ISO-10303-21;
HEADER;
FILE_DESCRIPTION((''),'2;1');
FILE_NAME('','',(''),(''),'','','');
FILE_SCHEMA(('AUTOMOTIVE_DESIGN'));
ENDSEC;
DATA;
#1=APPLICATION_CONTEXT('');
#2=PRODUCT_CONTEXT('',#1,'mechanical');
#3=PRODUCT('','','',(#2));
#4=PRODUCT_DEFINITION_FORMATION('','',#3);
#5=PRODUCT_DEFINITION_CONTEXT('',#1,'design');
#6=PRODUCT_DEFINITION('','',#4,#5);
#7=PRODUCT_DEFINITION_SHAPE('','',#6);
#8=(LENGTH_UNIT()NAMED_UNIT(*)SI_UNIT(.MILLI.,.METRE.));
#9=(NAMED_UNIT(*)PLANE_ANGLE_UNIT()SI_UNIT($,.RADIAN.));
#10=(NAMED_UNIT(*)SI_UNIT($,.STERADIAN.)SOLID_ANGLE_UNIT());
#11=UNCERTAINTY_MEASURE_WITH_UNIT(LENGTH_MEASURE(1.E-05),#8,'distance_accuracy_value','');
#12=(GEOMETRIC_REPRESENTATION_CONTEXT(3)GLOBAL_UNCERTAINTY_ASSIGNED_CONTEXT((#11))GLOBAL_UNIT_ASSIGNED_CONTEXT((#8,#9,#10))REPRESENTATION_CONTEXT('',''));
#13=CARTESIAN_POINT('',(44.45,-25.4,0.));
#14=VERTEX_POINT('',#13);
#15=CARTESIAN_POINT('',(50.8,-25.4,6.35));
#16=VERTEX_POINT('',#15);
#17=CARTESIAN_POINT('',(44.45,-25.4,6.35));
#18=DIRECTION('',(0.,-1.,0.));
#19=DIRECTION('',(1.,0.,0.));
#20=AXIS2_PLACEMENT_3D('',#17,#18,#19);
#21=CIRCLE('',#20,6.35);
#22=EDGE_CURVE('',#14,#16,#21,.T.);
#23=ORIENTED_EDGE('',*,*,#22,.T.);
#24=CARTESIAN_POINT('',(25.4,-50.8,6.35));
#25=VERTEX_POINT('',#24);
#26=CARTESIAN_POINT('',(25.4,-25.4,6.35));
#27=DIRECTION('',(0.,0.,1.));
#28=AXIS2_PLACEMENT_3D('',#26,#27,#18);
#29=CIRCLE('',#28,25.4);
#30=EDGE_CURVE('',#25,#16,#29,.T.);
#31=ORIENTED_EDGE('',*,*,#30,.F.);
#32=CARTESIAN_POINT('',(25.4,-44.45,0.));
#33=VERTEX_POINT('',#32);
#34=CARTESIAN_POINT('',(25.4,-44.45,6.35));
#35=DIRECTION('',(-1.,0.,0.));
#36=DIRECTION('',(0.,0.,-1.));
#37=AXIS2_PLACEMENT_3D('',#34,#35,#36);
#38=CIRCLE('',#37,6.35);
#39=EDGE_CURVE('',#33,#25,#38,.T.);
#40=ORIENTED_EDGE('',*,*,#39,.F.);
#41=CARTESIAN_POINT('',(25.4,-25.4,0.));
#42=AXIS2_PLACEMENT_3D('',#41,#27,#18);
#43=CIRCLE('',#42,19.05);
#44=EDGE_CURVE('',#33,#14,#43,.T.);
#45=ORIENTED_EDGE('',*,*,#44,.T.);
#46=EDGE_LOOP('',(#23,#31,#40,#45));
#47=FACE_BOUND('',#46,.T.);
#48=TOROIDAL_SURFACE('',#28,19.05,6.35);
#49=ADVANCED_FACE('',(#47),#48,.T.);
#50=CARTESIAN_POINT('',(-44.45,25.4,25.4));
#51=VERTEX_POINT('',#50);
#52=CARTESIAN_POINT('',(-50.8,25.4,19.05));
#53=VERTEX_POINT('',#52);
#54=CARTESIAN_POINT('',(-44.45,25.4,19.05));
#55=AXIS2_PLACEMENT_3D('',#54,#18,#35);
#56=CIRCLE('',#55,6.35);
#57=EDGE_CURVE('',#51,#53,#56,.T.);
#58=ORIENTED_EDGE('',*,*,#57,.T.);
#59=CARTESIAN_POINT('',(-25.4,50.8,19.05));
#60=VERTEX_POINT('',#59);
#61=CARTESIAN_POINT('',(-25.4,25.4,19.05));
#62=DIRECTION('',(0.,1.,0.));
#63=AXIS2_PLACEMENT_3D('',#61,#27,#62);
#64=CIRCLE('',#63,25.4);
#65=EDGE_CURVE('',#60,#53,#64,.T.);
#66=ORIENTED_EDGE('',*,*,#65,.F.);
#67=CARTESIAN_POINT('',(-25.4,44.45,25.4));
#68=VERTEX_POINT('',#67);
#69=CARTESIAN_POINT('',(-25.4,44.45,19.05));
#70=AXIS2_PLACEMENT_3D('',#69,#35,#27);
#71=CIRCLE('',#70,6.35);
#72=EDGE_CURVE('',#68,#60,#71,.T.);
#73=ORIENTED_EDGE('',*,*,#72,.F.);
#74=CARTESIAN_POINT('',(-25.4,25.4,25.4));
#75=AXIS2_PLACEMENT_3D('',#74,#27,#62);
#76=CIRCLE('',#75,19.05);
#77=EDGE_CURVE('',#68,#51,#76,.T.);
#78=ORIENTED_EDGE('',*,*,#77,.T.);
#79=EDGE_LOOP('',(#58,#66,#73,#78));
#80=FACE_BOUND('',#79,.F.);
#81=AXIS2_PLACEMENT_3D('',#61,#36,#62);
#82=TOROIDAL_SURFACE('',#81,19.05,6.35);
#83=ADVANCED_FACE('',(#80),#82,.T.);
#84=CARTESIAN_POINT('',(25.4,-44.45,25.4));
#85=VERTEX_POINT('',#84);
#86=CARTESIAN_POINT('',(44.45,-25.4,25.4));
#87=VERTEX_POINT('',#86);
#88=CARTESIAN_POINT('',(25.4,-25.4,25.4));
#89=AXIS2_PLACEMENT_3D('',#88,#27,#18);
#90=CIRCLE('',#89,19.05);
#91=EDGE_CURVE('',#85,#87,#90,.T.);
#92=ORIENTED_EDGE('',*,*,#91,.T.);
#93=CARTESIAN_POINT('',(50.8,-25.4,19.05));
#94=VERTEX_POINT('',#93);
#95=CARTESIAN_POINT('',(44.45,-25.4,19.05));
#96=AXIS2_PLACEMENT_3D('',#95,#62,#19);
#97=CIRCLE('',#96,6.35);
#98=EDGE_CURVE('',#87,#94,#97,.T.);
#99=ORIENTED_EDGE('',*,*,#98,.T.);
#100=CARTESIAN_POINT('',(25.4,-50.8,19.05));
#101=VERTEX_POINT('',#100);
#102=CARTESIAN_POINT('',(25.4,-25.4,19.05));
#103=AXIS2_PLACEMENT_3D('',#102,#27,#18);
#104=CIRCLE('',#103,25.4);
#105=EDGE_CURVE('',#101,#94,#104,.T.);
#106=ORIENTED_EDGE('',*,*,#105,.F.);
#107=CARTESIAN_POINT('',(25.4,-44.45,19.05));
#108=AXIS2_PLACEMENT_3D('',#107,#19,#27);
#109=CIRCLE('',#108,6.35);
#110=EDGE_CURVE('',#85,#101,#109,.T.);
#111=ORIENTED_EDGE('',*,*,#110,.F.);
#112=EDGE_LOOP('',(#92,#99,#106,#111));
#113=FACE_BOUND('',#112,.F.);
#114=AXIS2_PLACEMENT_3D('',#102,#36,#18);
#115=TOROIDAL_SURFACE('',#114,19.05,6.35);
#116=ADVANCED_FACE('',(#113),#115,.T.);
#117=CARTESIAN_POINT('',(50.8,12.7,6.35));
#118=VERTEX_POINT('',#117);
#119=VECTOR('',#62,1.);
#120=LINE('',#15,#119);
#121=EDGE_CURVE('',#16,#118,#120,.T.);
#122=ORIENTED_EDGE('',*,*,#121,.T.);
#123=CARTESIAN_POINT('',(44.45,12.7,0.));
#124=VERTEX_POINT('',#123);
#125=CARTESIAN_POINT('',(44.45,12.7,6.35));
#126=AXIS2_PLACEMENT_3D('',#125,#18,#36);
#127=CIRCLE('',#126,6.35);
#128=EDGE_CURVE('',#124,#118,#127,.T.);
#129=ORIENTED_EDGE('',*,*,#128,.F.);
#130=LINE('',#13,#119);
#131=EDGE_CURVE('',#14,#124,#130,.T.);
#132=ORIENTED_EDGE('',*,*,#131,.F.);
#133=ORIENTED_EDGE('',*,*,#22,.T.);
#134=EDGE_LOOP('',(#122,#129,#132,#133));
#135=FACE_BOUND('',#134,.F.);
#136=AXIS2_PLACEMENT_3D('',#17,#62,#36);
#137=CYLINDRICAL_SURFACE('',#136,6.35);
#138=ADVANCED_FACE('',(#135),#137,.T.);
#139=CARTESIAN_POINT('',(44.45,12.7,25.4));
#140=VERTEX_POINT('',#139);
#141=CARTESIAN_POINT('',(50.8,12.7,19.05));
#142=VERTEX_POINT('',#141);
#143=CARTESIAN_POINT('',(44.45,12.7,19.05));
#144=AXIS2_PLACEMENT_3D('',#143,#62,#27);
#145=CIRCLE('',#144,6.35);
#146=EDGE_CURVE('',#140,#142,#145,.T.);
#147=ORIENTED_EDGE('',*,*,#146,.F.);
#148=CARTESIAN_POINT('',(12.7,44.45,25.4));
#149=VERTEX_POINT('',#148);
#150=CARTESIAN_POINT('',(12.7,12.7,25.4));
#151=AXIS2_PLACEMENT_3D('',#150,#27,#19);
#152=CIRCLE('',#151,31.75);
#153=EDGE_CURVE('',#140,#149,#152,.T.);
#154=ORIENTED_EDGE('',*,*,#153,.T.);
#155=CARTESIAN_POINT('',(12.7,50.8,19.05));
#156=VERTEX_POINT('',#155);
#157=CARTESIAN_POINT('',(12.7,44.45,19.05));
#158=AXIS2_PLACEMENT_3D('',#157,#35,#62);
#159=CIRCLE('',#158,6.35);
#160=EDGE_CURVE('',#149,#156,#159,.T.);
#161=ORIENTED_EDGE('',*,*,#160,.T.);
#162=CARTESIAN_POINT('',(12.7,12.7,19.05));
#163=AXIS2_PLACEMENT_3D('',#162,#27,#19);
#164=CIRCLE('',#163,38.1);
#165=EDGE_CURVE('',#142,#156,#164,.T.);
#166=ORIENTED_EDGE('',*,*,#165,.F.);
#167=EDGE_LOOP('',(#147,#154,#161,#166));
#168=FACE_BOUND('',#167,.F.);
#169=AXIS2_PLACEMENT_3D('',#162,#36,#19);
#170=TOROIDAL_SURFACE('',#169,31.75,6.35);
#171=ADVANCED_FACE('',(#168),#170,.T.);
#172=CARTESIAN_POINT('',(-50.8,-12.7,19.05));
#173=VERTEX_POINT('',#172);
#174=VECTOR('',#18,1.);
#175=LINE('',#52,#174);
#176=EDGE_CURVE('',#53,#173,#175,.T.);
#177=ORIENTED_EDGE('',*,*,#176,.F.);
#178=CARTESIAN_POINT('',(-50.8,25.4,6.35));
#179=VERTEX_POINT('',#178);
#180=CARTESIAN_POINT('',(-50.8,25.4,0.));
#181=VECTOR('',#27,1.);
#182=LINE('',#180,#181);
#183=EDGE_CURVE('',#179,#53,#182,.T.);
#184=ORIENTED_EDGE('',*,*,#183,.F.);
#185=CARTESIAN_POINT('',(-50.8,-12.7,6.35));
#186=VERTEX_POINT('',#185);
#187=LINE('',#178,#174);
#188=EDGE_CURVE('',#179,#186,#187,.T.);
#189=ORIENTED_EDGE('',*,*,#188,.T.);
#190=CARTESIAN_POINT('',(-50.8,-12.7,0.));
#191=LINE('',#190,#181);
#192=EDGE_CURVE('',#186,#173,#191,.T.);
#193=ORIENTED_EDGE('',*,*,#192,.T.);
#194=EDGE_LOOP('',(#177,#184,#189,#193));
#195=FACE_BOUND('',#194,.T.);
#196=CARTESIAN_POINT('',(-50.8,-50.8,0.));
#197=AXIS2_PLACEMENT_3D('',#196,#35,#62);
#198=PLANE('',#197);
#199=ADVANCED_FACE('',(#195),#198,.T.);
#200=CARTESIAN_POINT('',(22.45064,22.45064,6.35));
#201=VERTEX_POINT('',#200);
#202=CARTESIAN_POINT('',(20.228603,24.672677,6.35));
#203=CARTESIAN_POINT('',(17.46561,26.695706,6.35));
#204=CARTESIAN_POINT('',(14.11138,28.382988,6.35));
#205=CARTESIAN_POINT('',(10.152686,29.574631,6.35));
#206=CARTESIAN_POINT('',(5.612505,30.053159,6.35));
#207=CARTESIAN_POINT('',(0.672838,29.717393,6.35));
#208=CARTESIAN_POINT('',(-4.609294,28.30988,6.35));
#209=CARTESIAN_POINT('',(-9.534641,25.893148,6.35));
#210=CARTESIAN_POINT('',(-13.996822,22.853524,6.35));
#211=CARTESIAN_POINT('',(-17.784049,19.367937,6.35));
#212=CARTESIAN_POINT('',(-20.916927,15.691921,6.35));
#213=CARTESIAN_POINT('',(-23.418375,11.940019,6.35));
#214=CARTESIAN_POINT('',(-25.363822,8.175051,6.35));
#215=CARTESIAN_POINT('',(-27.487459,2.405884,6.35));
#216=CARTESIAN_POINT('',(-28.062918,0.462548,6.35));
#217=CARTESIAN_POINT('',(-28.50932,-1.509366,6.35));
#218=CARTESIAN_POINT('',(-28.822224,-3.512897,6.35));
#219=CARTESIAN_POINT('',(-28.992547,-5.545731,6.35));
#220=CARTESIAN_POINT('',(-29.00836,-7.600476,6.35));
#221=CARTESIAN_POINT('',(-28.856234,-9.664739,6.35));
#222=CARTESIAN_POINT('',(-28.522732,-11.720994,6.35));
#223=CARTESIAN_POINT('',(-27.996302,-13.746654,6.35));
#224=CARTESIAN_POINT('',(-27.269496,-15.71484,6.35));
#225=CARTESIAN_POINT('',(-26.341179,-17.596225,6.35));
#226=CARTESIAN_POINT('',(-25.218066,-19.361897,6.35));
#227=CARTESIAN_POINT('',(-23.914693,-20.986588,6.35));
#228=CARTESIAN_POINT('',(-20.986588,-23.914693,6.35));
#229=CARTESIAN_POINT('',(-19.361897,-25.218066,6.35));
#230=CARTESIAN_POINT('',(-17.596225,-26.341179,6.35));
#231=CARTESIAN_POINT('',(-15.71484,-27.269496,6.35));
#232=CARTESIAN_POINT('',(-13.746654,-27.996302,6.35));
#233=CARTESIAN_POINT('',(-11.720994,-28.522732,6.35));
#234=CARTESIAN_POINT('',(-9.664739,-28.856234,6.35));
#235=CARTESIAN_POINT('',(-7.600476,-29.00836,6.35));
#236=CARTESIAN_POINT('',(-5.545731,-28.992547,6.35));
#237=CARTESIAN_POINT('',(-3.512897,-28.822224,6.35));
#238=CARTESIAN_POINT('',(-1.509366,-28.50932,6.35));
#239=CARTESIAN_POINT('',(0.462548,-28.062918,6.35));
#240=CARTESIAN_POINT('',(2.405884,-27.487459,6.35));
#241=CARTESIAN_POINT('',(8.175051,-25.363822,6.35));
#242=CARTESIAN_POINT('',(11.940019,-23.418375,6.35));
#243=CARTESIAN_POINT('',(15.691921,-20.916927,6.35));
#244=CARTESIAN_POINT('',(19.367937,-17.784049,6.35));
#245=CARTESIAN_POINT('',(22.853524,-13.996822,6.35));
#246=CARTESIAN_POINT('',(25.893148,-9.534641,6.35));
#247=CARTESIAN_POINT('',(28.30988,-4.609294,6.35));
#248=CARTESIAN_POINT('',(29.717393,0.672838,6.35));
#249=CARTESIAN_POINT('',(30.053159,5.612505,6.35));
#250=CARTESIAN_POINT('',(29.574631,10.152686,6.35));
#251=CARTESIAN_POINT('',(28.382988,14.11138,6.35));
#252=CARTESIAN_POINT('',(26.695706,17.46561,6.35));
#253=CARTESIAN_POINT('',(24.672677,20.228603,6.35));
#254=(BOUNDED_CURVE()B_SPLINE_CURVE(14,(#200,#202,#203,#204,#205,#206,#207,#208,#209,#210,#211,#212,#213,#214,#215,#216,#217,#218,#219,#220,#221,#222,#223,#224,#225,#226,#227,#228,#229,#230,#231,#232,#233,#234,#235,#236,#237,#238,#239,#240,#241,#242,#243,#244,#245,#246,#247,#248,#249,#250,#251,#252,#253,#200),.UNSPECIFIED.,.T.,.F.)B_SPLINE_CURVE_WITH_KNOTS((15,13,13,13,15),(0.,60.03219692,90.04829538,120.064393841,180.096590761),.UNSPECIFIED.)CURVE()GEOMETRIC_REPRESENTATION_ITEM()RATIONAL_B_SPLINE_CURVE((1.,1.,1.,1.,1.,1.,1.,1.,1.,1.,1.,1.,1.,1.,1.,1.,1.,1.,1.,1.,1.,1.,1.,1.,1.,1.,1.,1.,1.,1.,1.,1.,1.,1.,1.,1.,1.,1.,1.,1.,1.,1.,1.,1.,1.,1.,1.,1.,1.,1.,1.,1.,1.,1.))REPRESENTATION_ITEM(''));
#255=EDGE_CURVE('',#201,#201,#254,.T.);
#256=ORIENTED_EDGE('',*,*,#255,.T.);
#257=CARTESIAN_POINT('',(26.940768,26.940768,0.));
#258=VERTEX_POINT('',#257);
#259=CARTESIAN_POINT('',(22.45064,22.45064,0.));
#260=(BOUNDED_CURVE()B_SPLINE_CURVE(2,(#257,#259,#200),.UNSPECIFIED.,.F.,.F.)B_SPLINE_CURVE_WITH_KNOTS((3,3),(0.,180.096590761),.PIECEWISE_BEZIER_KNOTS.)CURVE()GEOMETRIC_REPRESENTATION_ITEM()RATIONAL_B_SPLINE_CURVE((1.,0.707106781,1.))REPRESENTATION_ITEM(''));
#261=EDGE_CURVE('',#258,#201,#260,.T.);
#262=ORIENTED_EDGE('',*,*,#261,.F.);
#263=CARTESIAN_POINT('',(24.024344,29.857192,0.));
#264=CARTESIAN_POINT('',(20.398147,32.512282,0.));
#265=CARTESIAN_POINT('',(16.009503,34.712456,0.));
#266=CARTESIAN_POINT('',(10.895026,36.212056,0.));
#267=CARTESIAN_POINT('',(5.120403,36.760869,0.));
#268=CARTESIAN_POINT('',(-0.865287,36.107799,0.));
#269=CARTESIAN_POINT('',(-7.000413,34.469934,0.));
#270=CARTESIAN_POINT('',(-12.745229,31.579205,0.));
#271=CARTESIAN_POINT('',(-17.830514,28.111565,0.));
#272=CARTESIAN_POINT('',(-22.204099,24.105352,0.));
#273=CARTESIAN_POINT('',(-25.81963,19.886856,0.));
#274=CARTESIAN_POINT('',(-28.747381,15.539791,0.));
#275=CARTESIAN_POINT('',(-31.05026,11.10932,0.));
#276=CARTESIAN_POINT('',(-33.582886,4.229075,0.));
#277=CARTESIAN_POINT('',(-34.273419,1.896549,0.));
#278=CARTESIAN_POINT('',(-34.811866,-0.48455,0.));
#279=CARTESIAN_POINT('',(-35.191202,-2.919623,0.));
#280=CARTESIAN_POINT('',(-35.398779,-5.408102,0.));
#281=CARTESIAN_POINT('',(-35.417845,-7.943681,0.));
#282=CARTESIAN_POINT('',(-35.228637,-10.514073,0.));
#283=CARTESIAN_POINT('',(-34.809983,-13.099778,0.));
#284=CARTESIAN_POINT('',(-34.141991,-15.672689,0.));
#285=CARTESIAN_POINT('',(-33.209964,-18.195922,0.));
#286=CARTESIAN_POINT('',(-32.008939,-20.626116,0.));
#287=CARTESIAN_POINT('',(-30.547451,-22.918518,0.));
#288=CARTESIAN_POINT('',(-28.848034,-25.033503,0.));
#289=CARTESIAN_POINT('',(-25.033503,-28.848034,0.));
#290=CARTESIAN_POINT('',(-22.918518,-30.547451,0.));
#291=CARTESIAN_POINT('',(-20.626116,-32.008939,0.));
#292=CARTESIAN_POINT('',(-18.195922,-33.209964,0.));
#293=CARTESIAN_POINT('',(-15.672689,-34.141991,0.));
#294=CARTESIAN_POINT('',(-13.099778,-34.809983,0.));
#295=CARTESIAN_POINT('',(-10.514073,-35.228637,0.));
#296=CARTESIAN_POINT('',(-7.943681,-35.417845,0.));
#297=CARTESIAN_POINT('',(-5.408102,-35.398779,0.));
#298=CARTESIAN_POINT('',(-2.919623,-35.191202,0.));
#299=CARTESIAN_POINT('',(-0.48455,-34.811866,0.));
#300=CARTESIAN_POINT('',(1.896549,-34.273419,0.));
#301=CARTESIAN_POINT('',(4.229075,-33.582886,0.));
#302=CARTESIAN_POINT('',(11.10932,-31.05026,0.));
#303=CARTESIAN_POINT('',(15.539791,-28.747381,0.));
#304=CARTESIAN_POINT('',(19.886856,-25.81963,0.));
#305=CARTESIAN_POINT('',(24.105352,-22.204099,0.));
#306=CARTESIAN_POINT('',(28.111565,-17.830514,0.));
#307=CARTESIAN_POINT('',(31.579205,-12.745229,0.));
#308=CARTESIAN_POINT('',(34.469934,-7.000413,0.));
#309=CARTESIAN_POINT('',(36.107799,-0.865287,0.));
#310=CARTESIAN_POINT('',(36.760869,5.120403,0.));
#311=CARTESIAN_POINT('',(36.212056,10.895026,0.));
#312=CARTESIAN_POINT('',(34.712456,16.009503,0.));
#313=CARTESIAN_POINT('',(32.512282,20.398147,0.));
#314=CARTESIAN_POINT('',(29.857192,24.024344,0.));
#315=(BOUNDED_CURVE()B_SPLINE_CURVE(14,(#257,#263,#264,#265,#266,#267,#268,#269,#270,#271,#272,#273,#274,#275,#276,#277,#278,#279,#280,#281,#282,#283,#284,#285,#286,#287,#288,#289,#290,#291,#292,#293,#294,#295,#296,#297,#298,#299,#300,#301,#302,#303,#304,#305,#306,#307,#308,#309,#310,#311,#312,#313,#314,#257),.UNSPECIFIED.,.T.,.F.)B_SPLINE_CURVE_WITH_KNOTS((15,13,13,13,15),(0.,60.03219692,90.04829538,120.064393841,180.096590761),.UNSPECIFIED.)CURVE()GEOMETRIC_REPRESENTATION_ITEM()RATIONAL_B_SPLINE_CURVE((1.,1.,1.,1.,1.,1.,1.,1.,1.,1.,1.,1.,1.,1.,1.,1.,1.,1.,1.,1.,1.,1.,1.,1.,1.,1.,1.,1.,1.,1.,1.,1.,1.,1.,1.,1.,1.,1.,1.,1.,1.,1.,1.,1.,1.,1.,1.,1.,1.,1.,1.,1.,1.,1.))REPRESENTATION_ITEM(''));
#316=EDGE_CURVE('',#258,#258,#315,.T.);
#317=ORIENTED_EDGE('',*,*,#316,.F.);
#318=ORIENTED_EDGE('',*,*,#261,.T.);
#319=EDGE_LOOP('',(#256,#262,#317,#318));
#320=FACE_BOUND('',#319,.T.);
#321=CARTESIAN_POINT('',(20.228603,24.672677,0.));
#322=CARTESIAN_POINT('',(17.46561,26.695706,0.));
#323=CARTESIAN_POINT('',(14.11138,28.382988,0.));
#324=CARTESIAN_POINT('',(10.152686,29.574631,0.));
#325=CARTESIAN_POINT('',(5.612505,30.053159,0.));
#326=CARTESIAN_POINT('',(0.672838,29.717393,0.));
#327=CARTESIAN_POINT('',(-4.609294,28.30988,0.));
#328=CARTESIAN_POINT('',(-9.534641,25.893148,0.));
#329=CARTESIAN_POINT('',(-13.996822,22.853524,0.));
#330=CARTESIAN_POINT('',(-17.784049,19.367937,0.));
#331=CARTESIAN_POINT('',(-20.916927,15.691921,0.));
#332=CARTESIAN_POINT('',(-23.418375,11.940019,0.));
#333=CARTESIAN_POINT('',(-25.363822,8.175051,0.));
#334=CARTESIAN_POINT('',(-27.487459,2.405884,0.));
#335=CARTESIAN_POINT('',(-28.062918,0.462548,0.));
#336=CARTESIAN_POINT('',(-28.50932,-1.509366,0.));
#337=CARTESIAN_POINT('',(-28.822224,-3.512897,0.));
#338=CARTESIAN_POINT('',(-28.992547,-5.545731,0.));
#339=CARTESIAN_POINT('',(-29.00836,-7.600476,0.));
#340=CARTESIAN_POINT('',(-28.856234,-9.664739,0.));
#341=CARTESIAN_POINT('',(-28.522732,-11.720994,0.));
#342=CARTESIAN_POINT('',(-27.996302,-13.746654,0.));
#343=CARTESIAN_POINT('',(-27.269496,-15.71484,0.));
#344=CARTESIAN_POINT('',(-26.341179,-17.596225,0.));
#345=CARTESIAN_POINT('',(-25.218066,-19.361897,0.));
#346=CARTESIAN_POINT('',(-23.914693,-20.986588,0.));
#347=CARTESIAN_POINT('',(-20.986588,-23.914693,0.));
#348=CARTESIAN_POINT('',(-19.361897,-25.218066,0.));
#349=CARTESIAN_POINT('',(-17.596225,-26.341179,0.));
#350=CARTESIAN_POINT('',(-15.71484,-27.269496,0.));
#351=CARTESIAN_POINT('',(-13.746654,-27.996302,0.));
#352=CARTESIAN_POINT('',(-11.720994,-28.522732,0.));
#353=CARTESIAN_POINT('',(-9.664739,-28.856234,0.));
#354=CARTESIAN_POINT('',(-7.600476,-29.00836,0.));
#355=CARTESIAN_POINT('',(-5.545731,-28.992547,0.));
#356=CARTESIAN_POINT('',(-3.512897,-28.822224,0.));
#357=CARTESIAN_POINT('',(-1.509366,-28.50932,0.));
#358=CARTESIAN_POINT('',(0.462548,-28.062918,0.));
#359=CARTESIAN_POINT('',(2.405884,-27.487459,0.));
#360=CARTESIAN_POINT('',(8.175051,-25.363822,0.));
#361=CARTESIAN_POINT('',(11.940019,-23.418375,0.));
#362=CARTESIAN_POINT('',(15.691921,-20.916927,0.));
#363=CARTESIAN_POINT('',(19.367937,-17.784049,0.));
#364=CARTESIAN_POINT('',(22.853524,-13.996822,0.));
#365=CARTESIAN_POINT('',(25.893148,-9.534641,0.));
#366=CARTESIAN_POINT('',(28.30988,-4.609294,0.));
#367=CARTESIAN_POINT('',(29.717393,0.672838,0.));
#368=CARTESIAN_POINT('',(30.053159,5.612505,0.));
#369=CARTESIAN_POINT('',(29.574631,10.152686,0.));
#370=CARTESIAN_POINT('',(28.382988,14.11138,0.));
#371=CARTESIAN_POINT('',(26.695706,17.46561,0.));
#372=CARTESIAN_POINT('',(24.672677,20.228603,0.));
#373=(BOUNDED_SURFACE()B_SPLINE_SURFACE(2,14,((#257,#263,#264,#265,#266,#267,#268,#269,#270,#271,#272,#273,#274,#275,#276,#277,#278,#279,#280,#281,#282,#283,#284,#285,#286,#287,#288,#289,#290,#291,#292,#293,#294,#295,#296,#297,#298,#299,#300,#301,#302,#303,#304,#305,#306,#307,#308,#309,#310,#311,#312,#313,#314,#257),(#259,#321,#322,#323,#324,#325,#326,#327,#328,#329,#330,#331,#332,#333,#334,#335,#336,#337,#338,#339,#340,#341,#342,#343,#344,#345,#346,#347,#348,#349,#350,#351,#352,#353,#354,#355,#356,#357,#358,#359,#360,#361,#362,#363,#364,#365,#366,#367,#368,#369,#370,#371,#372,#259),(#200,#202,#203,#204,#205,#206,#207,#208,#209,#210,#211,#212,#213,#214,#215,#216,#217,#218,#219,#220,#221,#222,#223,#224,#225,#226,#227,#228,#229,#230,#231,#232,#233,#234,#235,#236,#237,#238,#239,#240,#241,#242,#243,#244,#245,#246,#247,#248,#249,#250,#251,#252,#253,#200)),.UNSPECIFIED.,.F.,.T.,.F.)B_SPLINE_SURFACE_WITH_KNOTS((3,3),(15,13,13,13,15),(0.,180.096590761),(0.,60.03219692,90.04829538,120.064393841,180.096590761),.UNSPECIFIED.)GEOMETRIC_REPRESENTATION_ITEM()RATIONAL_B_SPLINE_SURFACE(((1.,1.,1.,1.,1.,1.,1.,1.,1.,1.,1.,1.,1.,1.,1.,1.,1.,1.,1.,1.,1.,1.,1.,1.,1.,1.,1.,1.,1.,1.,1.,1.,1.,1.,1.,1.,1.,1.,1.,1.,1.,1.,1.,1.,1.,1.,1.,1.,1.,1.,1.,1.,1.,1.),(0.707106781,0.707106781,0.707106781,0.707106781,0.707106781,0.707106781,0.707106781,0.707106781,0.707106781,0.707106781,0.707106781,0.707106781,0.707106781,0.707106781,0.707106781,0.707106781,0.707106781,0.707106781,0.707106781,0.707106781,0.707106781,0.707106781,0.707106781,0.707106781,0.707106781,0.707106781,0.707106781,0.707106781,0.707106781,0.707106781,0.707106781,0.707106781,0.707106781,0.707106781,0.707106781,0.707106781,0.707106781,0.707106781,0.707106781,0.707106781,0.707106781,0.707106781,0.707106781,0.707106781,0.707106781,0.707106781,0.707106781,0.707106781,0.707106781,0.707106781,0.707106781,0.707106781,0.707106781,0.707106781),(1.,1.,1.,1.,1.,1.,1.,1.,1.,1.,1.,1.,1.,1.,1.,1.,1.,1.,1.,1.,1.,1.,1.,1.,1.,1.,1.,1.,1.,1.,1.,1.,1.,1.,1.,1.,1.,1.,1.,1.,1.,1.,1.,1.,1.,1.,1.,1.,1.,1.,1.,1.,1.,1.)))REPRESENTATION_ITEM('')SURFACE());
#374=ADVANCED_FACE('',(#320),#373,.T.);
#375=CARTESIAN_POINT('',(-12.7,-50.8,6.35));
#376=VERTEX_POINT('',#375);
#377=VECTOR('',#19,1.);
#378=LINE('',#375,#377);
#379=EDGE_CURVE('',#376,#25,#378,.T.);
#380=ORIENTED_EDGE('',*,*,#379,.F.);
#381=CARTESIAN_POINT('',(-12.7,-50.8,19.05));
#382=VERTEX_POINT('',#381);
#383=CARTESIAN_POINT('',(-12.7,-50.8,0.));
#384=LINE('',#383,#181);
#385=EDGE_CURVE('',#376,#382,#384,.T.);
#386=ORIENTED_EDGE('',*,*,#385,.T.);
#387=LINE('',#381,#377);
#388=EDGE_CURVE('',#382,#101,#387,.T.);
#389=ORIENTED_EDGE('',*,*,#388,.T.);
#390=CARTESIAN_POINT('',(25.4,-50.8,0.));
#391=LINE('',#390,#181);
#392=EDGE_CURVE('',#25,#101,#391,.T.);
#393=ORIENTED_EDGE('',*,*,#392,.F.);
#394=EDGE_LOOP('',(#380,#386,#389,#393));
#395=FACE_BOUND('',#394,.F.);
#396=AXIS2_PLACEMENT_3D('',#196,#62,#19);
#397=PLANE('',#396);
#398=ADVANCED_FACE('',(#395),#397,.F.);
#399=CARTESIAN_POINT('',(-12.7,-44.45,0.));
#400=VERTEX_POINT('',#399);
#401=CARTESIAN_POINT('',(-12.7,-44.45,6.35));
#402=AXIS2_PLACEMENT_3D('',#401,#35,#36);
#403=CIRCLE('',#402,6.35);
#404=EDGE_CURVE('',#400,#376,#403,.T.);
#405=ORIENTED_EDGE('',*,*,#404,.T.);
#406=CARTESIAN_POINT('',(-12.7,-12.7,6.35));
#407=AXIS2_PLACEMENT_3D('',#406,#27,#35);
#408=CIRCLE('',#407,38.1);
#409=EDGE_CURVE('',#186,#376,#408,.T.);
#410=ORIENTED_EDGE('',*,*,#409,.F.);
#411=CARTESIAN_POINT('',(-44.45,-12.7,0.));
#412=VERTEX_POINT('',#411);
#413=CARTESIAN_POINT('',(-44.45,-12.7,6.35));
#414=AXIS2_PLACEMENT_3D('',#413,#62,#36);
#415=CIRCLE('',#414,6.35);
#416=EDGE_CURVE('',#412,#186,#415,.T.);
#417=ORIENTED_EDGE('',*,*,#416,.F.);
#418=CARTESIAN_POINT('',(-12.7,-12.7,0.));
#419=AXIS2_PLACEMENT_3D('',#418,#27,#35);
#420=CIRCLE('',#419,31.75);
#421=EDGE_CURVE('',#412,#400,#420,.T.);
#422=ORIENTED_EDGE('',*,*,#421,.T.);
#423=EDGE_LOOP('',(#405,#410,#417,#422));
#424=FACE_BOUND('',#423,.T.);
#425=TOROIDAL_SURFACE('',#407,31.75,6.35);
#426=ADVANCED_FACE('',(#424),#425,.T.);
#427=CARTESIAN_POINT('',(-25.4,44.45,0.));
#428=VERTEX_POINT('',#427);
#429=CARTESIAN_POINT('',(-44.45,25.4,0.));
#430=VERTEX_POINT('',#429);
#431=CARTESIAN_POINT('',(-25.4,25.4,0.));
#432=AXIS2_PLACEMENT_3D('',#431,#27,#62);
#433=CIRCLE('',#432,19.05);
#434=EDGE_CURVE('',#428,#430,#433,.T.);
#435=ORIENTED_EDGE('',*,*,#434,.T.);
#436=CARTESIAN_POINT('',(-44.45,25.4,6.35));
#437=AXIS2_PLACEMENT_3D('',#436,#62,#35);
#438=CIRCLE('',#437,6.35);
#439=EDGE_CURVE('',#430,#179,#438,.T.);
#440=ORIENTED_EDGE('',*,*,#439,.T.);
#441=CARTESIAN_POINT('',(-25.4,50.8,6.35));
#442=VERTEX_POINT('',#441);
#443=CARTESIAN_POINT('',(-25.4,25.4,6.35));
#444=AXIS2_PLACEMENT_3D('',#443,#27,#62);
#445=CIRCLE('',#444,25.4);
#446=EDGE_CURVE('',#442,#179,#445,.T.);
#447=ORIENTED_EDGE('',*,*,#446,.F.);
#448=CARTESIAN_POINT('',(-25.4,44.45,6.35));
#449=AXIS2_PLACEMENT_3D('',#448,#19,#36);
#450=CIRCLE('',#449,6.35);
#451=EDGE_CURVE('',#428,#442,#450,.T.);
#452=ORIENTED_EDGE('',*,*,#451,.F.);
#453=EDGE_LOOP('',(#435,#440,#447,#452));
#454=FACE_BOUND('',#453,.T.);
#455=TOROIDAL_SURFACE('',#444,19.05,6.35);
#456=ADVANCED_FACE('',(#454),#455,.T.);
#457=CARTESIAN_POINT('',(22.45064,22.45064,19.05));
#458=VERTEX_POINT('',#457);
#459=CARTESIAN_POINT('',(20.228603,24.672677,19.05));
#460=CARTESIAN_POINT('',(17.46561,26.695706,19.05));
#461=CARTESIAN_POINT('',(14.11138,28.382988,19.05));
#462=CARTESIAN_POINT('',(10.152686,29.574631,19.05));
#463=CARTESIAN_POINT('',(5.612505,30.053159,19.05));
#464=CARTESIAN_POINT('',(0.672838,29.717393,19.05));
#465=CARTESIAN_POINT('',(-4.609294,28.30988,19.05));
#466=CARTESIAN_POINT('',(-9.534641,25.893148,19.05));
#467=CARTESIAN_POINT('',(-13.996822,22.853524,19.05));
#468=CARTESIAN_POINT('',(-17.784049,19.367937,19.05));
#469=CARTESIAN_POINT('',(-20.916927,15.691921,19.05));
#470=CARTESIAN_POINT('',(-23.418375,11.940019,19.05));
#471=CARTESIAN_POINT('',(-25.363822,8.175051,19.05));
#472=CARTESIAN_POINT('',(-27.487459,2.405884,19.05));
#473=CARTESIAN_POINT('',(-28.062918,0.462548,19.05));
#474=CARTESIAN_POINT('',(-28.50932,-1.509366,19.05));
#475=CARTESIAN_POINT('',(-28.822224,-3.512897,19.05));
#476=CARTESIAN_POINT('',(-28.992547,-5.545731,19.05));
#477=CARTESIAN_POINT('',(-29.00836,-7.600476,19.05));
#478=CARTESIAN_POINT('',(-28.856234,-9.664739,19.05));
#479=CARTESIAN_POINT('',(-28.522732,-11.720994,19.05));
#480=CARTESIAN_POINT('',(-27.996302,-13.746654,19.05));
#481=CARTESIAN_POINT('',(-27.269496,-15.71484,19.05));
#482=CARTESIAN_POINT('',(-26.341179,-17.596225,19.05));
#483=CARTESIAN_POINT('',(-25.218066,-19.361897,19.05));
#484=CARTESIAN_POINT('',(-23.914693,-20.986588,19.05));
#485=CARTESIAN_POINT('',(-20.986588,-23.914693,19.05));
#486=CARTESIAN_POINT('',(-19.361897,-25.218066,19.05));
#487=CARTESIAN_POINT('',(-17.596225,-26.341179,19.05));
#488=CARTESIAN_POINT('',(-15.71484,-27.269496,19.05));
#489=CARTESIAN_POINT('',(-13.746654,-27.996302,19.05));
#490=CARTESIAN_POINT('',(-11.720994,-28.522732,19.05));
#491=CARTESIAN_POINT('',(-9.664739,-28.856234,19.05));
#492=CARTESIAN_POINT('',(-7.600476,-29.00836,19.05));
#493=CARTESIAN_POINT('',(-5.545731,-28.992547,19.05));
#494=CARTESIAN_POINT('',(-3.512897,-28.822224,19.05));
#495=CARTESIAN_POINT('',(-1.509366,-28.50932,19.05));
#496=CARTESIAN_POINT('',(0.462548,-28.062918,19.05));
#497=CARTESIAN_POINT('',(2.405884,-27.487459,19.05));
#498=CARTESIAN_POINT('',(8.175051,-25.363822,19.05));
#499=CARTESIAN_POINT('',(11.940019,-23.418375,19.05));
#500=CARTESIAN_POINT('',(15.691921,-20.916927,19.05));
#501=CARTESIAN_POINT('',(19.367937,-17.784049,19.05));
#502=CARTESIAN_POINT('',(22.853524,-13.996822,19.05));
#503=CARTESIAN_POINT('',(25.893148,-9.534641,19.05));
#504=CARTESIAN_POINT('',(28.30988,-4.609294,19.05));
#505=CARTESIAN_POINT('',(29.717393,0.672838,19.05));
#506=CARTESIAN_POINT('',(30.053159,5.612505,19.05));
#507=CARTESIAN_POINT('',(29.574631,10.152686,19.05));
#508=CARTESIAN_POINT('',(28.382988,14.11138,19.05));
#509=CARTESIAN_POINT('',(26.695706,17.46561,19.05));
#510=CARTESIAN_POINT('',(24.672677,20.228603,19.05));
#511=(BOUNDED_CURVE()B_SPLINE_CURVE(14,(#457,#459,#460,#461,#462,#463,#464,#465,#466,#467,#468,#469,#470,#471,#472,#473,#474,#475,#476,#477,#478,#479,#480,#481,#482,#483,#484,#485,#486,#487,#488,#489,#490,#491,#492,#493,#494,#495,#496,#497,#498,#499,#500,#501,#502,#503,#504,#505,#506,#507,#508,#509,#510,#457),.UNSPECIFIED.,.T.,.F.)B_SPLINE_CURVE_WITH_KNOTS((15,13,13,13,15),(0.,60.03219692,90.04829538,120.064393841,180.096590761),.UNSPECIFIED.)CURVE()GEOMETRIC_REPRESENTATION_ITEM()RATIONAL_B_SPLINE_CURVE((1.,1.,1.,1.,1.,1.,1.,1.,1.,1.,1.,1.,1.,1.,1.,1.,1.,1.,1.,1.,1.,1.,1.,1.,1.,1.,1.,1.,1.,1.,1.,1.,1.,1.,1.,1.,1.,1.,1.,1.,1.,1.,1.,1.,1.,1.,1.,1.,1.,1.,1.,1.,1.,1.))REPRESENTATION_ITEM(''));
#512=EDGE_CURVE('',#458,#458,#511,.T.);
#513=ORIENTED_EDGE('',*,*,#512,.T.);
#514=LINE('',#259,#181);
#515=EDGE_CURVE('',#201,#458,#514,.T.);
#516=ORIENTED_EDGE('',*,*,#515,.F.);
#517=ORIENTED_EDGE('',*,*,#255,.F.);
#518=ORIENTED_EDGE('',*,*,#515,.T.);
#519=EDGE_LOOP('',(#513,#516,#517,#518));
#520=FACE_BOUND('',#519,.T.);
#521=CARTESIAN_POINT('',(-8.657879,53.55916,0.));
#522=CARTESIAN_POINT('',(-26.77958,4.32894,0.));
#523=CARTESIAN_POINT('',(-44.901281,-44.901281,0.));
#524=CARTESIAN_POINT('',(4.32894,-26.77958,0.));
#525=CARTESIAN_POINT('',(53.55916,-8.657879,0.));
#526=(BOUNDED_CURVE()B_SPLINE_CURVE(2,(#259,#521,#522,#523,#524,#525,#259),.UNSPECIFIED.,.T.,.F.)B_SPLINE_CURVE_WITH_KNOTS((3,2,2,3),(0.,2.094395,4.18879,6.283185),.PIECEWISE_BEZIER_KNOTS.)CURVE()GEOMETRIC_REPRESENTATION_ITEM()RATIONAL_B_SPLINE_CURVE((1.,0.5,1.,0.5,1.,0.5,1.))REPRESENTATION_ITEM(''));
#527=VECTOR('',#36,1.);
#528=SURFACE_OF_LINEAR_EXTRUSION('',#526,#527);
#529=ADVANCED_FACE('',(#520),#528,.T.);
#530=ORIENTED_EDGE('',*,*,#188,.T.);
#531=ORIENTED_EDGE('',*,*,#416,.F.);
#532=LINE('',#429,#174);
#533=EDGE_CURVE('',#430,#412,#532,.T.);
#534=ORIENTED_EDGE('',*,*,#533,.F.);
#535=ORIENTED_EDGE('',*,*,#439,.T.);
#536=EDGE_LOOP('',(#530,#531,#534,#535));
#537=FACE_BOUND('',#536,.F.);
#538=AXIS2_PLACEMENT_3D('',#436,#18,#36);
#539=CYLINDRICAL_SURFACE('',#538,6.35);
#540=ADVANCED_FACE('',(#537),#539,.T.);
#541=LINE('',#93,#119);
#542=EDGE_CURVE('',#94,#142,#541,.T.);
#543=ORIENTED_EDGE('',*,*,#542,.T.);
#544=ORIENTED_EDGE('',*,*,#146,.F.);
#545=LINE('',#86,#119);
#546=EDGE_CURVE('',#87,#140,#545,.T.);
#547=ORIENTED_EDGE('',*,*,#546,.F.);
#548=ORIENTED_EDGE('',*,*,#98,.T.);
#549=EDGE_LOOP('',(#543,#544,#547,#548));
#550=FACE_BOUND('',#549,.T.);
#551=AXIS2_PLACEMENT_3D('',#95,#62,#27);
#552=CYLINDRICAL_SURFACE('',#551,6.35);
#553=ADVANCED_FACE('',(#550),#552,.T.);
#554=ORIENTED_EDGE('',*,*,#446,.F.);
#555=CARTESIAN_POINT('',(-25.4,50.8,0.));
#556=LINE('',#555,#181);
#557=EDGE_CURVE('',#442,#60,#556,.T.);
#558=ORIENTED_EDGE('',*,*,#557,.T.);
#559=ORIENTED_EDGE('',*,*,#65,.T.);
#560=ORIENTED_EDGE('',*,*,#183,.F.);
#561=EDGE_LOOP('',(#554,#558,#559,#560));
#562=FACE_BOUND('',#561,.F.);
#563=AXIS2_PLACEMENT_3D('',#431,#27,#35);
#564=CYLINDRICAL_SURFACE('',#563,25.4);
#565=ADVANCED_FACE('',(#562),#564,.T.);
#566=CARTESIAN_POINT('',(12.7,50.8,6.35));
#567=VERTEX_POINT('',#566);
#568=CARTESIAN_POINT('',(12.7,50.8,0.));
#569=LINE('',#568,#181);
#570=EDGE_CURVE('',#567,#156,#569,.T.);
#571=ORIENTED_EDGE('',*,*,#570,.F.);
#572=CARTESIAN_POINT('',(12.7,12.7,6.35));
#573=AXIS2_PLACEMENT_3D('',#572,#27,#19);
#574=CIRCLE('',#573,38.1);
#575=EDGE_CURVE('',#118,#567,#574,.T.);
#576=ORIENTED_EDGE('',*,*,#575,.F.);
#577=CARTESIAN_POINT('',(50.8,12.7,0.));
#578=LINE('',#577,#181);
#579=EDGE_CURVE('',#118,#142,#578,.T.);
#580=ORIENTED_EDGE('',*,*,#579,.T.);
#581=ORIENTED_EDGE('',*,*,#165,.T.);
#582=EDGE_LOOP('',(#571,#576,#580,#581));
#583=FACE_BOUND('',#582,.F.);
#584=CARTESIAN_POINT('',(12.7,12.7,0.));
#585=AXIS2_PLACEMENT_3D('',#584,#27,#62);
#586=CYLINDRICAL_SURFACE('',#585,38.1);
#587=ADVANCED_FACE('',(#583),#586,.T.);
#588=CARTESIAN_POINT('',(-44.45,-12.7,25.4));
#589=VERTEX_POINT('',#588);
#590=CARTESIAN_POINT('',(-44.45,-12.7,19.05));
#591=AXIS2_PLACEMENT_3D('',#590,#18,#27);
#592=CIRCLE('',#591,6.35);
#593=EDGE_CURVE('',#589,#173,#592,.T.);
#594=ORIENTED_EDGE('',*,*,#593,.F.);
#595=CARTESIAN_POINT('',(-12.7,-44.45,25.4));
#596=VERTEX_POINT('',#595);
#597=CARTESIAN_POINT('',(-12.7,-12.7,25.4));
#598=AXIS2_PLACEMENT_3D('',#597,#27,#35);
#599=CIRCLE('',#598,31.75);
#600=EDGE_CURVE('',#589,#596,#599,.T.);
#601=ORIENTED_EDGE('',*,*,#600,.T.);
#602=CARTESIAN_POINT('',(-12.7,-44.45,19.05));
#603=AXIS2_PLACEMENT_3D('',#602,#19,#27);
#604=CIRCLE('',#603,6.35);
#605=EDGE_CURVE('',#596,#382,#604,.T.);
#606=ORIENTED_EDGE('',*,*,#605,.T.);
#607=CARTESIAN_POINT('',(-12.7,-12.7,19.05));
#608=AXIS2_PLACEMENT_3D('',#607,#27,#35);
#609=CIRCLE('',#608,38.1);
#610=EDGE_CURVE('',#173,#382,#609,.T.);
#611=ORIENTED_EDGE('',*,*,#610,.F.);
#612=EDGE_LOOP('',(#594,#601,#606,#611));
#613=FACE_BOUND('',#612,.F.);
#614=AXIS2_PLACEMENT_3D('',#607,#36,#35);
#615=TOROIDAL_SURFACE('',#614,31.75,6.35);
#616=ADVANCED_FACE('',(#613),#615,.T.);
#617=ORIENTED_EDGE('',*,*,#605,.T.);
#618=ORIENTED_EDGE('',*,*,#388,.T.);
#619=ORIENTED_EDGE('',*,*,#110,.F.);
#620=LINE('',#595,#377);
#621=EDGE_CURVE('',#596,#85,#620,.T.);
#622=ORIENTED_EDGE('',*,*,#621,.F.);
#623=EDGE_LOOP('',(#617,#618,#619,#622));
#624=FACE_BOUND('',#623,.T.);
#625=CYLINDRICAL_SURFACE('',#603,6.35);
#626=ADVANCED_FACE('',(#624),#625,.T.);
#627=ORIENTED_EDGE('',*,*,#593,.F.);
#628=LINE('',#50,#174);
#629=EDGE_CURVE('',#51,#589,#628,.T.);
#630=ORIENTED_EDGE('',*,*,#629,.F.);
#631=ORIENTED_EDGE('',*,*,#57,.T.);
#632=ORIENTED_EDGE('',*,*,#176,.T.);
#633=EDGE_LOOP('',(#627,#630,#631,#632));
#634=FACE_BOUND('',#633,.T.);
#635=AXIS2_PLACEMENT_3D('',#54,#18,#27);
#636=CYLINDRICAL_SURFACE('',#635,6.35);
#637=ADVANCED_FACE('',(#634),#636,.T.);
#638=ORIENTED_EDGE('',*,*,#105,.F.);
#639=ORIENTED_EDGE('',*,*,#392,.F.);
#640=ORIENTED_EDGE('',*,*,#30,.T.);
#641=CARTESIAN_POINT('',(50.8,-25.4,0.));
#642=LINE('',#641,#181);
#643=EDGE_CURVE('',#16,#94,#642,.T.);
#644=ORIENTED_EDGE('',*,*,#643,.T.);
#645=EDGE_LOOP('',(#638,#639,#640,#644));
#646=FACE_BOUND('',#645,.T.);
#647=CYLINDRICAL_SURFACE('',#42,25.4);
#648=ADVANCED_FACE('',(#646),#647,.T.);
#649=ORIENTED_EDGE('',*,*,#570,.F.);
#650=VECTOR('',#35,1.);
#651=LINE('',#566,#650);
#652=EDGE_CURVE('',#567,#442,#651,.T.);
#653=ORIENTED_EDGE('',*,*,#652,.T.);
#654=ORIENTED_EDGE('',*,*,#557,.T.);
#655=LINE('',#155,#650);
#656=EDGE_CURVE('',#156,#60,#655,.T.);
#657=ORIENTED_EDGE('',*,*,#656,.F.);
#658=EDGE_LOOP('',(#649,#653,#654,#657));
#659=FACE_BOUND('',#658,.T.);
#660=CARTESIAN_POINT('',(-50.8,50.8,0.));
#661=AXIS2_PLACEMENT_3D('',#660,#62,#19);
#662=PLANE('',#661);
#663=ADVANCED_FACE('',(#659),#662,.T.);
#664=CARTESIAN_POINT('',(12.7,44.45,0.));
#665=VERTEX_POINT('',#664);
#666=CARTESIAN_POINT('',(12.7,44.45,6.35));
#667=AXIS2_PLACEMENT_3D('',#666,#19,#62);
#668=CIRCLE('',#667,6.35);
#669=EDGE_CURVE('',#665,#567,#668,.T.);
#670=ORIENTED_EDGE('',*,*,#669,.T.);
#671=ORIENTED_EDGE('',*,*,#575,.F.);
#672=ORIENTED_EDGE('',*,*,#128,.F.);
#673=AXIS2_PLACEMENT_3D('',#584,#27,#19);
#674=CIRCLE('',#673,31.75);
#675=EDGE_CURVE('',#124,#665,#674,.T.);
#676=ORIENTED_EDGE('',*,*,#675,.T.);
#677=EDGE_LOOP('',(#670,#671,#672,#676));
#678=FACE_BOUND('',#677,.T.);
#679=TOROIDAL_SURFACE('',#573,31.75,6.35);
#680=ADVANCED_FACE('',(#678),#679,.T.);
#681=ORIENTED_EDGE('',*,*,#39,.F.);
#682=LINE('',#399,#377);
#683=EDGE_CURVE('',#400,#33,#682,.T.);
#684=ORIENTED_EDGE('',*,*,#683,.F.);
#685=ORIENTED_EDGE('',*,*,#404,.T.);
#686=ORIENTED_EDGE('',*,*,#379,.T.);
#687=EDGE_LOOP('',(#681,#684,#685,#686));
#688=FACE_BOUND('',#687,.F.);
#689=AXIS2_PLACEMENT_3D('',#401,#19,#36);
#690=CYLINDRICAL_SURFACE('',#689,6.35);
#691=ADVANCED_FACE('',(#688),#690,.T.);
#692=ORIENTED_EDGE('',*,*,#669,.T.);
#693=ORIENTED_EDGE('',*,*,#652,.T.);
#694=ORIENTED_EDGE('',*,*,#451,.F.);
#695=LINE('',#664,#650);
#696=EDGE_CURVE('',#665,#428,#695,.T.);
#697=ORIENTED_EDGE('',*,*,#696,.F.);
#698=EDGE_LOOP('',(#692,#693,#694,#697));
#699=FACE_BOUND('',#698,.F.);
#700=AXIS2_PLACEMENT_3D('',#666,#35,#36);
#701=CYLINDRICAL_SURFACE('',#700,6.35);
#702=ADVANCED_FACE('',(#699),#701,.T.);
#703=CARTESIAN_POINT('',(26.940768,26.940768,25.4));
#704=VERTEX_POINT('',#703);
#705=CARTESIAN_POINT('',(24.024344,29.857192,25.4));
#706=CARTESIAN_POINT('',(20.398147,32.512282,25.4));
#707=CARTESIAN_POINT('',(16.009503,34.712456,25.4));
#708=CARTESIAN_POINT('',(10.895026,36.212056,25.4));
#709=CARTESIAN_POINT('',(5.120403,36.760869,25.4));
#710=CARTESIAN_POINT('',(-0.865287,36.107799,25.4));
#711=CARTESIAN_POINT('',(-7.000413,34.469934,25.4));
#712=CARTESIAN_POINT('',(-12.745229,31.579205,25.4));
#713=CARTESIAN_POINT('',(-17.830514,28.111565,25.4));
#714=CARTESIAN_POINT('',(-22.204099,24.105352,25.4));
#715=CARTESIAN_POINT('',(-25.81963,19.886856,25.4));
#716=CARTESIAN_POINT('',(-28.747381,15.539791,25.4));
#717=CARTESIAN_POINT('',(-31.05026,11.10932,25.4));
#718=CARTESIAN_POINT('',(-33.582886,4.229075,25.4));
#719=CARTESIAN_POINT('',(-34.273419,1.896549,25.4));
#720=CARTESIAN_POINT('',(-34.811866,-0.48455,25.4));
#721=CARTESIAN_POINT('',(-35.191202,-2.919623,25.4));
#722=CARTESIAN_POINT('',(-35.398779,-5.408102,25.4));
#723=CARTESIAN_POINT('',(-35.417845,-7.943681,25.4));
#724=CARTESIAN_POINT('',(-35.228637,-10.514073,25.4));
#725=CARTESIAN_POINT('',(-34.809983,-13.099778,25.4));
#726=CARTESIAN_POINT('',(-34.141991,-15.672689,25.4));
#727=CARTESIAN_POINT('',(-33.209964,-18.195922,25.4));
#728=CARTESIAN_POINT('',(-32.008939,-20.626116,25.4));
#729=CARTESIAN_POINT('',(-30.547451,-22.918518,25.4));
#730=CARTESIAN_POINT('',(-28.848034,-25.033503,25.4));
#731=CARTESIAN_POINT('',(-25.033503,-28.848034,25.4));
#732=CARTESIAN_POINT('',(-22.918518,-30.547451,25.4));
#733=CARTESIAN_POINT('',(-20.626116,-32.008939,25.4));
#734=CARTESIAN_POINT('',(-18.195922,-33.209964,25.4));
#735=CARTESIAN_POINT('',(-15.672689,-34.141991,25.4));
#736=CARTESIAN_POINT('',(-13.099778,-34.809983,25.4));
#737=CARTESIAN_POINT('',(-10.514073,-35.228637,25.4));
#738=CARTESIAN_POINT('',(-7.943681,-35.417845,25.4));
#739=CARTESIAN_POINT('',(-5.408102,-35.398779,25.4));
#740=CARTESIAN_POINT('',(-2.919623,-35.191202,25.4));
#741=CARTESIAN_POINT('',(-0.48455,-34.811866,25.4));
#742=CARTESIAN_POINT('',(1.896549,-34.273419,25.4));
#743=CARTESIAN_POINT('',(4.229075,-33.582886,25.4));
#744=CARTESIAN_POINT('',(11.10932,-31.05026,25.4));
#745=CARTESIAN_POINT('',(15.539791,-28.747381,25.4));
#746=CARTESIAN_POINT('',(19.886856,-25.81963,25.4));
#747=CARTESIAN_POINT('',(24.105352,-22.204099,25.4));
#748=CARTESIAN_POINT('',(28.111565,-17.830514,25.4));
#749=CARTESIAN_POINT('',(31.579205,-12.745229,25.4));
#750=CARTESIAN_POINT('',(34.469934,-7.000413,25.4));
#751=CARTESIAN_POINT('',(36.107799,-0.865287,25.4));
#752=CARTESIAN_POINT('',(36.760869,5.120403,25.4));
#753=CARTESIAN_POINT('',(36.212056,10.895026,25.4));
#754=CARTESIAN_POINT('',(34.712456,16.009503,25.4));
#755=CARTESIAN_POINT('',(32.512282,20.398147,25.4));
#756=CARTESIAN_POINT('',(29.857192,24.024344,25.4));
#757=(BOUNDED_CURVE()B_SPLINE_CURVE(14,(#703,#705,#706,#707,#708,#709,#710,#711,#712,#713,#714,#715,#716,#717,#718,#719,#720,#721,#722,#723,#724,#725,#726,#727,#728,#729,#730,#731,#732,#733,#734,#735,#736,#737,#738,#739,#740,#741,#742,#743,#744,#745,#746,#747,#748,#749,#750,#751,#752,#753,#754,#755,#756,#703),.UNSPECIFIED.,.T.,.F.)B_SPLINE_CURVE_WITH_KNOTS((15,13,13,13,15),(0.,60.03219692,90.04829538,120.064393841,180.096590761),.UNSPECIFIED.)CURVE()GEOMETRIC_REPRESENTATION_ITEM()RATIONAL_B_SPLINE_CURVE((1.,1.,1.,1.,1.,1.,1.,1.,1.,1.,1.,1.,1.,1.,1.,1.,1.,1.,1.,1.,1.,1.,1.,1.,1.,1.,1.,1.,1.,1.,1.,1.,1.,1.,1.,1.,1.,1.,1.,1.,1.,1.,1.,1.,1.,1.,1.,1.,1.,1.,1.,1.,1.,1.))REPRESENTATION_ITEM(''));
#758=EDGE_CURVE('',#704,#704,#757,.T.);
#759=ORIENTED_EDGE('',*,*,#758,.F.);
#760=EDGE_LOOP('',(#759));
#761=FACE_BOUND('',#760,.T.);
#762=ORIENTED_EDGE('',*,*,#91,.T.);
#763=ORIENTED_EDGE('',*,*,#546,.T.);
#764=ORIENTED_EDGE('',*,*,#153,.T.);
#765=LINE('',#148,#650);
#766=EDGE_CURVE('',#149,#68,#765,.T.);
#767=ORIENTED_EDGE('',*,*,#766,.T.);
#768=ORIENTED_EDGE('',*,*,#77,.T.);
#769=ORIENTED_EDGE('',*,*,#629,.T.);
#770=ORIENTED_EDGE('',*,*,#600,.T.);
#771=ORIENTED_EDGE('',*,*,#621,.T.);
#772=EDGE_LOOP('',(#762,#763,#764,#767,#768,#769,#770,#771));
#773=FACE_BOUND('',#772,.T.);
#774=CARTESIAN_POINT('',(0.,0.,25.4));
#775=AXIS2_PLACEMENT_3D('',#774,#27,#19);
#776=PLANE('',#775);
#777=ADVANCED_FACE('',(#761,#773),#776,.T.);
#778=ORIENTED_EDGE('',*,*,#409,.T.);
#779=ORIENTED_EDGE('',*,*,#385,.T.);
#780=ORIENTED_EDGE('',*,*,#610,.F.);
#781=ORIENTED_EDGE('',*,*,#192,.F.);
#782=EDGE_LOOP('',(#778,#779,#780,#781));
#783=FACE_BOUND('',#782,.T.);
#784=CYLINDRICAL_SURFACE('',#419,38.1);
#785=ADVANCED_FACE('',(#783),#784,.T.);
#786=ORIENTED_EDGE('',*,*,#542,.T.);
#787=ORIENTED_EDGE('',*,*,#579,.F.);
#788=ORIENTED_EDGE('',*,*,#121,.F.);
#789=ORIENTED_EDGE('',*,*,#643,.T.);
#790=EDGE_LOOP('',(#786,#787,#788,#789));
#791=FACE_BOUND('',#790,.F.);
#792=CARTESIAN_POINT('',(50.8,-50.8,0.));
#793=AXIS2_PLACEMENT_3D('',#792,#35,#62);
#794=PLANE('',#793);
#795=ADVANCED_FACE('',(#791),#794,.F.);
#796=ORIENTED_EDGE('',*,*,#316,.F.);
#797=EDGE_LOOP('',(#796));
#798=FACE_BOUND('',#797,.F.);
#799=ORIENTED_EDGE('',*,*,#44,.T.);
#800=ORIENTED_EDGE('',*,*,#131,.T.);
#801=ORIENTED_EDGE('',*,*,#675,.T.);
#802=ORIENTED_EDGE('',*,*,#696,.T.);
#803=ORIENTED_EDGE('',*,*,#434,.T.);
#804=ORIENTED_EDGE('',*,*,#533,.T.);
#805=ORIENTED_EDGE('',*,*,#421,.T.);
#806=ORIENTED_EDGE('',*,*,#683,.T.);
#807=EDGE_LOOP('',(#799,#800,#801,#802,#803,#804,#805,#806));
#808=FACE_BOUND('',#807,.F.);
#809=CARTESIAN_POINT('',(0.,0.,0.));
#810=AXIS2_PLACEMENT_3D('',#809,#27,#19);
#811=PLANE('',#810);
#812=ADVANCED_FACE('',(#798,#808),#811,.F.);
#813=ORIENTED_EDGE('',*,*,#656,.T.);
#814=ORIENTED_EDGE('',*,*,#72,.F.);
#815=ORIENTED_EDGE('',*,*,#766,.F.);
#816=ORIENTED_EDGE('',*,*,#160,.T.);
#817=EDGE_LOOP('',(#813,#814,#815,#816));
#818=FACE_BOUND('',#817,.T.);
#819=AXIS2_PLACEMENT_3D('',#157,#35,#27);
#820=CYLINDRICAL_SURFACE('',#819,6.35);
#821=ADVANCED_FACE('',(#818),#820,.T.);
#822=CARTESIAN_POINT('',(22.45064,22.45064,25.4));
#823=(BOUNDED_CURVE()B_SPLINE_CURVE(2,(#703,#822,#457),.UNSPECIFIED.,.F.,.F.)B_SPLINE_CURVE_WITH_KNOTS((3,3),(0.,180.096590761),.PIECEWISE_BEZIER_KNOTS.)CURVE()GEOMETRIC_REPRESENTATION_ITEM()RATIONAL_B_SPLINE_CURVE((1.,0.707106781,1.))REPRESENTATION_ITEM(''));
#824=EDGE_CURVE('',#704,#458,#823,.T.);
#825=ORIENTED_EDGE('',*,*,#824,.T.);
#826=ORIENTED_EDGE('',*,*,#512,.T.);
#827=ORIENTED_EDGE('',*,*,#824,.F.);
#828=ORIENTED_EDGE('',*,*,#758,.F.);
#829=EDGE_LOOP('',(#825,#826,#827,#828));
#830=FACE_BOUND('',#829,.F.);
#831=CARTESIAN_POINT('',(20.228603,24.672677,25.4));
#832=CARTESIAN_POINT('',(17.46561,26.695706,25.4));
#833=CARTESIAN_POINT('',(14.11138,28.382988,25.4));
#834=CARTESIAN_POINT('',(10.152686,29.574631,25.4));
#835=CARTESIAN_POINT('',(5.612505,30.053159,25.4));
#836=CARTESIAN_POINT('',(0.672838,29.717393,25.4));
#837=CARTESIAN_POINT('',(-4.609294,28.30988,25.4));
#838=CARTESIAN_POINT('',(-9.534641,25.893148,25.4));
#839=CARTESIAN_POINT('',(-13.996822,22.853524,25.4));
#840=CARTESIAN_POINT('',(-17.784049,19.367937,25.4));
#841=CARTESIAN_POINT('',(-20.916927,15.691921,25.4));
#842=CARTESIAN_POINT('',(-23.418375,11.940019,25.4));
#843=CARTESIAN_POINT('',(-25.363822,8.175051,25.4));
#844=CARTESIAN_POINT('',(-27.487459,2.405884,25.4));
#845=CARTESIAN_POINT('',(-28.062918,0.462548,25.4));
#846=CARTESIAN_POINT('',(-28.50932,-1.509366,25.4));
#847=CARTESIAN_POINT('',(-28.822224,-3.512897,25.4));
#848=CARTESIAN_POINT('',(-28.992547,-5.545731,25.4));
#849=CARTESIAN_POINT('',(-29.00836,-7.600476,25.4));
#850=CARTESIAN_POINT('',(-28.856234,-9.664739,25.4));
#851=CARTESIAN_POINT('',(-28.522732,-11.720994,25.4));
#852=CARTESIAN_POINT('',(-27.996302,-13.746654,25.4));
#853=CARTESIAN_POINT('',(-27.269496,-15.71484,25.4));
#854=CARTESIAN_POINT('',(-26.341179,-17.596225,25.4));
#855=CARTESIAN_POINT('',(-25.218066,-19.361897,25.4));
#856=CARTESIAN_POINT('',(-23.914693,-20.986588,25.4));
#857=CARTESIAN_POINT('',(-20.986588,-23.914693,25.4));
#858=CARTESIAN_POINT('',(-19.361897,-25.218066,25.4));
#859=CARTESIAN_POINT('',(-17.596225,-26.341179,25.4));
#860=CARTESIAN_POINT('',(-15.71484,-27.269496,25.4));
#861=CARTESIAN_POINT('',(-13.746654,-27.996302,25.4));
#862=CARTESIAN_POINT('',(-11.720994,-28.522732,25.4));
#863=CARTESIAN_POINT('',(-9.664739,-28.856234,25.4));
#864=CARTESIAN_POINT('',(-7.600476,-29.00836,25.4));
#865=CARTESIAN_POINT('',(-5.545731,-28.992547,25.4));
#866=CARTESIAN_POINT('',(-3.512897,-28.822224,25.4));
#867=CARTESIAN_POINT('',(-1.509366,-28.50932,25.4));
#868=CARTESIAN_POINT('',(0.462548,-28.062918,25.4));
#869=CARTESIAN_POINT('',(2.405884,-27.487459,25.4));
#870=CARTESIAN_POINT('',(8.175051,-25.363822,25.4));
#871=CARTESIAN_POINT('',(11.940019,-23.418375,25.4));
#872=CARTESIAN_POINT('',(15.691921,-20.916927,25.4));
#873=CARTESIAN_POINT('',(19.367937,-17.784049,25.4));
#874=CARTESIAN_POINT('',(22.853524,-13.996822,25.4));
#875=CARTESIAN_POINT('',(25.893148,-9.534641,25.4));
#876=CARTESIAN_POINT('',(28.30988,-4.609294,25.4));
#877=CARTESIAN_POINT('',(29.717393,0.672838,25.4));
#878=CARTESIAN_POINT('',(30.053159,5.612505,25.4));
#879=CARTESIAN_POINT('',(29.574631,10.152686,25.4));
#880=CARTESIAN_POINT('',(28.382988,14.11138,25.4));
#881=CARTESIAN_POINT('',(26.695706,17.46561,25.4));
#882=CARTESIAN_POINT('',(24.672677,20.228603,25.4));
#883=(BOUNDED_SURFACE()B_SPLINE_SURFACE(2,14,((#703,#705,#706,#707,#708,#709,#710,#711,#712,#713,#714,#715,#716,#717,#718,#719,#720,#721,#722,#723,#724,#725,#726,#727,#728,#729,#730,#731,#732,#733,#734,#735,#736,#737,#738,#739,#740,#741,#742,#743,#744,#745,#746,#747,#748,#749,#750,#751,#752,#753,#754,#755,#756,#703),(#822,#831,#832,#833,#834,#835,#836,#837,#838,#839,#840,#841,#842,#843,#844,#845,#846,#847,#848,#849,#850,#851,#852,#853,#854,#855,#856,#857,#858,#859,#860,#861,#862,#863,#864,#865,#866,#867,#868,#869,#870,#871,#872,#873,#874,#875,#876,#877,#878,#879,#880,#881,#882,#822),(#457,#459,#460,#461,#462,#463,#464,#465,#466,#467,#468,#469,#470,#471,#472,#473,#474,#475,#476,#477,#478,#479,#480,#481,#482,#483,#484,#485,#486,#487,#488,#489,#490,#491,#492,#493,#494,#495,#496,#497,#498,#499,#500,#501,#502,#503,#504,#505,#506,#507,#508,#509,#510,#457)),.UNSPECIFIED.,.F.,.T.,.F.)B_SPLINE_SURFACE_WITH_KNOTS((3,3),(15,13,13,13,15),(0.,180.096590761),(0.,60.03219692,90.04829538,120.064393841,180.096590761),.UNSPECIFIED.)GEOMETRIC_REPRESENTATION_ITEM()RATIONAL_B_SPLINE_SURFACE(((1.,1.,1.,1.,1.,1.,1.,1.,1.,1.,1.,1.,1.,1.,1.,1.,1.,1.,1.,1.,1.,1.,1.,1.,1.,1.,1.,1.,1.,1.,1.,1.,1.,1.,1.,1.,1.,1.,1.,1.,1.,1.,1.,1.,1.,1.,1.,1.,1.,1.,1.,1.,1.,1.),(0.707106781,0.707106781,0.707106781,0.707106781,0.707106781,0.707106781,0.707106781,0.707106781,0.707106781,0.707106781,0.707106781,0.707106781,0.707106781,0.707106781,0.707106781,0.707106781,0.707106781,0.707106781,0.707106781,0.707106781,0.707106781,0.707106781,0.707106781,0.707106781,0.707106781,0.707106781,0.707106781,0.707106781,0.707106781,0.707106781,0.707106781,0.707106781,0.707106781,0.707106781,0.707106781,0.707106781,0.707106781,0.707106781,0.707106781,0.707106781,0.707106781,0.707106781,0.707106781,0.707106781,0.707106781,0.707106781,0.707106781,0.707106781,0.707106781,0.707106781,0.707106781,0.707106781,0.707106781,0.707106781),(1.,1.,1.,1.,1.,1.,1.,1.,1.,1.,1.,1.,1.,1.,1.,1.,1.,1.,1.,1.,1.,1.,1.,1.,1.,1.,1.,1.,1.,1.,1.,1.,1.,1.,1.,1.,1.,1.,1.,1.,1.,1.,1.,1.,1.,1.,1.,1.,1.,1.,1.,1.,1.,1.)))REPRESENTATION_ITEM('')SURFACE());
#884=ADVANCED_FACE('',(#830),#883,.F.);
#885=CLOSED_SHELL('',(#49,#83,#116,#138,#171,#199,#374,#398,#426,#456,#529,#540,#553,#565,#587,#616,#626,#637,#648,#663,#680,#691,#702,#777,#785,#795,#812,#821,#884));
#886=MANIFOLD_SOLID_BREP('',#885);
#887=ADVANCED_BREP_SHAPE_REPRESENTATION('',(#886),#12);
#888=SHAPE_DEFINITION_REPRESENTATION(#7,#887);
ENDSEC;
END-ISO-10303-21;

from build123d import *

# Parameters (mm, degrees)
F0_W     = 101.6
F0_H     = 101.6
F1_DEPTH = 25.4
F2_R     = 25.4
F3_R     = 38.1
F4_R     = 6.35


with BuildPart() as f1:
    # F0 (on Top) → F1 (new body)
    with BuildSketch(Plane.XY):
        Rectangle(F0_W, F0_H)
        with BuildLine():
            add(Edge.make_bspline(
                [(22.45064, 22.45064), (-8.657879, 53.55916), (-26.77958, 4.32894), (-44.901281, -44.901281), (4.32894, -26.77958), (53.55916, -8.657879), (22.45064, 22.45064)],
                knots=[0, 0, 0, 2.094395, 2.094395, 4.18879, 4.18879, 6.283185, 6.283185, 6.283185], degree=2, weights=[1, 0.5, 1, 0.5, 1, 0.5, 1]))
        make_face(mode=Mode.SUBTRACT)
    extrude(amount=F1_DEPTH)

    # F2
    f2_edges = [f1.edges().sort_by_distance(p)[0] for p in [
        (50.8, -50.8, 12.7),
        (-50.8, 50.8, 12.7),
    ]]
    fillet(f2_edges, radius=F2_R)

    # F3
    f3_edges = [f1.edges().sort_by_distance(p)[0] for p in [
        (50.8, 50.8, 12.7),
        (-50.8, -50.8, 12.7),
    ]]
    fillet(f3_edges, radius=F3_R)

    # F4
    f4_edges = [f1.edges().sort_by_distance(p)[0] for p in [
        (6.35, -50.8, 25.4),
        (6.35, -50.8, 0),
        (-22.45064, -22.45064, 25.4),
        (-22.45064, -22.45064, 0),
    ]]
    fillet(f4_edges, radius=F4_R)


solid = f1.part
